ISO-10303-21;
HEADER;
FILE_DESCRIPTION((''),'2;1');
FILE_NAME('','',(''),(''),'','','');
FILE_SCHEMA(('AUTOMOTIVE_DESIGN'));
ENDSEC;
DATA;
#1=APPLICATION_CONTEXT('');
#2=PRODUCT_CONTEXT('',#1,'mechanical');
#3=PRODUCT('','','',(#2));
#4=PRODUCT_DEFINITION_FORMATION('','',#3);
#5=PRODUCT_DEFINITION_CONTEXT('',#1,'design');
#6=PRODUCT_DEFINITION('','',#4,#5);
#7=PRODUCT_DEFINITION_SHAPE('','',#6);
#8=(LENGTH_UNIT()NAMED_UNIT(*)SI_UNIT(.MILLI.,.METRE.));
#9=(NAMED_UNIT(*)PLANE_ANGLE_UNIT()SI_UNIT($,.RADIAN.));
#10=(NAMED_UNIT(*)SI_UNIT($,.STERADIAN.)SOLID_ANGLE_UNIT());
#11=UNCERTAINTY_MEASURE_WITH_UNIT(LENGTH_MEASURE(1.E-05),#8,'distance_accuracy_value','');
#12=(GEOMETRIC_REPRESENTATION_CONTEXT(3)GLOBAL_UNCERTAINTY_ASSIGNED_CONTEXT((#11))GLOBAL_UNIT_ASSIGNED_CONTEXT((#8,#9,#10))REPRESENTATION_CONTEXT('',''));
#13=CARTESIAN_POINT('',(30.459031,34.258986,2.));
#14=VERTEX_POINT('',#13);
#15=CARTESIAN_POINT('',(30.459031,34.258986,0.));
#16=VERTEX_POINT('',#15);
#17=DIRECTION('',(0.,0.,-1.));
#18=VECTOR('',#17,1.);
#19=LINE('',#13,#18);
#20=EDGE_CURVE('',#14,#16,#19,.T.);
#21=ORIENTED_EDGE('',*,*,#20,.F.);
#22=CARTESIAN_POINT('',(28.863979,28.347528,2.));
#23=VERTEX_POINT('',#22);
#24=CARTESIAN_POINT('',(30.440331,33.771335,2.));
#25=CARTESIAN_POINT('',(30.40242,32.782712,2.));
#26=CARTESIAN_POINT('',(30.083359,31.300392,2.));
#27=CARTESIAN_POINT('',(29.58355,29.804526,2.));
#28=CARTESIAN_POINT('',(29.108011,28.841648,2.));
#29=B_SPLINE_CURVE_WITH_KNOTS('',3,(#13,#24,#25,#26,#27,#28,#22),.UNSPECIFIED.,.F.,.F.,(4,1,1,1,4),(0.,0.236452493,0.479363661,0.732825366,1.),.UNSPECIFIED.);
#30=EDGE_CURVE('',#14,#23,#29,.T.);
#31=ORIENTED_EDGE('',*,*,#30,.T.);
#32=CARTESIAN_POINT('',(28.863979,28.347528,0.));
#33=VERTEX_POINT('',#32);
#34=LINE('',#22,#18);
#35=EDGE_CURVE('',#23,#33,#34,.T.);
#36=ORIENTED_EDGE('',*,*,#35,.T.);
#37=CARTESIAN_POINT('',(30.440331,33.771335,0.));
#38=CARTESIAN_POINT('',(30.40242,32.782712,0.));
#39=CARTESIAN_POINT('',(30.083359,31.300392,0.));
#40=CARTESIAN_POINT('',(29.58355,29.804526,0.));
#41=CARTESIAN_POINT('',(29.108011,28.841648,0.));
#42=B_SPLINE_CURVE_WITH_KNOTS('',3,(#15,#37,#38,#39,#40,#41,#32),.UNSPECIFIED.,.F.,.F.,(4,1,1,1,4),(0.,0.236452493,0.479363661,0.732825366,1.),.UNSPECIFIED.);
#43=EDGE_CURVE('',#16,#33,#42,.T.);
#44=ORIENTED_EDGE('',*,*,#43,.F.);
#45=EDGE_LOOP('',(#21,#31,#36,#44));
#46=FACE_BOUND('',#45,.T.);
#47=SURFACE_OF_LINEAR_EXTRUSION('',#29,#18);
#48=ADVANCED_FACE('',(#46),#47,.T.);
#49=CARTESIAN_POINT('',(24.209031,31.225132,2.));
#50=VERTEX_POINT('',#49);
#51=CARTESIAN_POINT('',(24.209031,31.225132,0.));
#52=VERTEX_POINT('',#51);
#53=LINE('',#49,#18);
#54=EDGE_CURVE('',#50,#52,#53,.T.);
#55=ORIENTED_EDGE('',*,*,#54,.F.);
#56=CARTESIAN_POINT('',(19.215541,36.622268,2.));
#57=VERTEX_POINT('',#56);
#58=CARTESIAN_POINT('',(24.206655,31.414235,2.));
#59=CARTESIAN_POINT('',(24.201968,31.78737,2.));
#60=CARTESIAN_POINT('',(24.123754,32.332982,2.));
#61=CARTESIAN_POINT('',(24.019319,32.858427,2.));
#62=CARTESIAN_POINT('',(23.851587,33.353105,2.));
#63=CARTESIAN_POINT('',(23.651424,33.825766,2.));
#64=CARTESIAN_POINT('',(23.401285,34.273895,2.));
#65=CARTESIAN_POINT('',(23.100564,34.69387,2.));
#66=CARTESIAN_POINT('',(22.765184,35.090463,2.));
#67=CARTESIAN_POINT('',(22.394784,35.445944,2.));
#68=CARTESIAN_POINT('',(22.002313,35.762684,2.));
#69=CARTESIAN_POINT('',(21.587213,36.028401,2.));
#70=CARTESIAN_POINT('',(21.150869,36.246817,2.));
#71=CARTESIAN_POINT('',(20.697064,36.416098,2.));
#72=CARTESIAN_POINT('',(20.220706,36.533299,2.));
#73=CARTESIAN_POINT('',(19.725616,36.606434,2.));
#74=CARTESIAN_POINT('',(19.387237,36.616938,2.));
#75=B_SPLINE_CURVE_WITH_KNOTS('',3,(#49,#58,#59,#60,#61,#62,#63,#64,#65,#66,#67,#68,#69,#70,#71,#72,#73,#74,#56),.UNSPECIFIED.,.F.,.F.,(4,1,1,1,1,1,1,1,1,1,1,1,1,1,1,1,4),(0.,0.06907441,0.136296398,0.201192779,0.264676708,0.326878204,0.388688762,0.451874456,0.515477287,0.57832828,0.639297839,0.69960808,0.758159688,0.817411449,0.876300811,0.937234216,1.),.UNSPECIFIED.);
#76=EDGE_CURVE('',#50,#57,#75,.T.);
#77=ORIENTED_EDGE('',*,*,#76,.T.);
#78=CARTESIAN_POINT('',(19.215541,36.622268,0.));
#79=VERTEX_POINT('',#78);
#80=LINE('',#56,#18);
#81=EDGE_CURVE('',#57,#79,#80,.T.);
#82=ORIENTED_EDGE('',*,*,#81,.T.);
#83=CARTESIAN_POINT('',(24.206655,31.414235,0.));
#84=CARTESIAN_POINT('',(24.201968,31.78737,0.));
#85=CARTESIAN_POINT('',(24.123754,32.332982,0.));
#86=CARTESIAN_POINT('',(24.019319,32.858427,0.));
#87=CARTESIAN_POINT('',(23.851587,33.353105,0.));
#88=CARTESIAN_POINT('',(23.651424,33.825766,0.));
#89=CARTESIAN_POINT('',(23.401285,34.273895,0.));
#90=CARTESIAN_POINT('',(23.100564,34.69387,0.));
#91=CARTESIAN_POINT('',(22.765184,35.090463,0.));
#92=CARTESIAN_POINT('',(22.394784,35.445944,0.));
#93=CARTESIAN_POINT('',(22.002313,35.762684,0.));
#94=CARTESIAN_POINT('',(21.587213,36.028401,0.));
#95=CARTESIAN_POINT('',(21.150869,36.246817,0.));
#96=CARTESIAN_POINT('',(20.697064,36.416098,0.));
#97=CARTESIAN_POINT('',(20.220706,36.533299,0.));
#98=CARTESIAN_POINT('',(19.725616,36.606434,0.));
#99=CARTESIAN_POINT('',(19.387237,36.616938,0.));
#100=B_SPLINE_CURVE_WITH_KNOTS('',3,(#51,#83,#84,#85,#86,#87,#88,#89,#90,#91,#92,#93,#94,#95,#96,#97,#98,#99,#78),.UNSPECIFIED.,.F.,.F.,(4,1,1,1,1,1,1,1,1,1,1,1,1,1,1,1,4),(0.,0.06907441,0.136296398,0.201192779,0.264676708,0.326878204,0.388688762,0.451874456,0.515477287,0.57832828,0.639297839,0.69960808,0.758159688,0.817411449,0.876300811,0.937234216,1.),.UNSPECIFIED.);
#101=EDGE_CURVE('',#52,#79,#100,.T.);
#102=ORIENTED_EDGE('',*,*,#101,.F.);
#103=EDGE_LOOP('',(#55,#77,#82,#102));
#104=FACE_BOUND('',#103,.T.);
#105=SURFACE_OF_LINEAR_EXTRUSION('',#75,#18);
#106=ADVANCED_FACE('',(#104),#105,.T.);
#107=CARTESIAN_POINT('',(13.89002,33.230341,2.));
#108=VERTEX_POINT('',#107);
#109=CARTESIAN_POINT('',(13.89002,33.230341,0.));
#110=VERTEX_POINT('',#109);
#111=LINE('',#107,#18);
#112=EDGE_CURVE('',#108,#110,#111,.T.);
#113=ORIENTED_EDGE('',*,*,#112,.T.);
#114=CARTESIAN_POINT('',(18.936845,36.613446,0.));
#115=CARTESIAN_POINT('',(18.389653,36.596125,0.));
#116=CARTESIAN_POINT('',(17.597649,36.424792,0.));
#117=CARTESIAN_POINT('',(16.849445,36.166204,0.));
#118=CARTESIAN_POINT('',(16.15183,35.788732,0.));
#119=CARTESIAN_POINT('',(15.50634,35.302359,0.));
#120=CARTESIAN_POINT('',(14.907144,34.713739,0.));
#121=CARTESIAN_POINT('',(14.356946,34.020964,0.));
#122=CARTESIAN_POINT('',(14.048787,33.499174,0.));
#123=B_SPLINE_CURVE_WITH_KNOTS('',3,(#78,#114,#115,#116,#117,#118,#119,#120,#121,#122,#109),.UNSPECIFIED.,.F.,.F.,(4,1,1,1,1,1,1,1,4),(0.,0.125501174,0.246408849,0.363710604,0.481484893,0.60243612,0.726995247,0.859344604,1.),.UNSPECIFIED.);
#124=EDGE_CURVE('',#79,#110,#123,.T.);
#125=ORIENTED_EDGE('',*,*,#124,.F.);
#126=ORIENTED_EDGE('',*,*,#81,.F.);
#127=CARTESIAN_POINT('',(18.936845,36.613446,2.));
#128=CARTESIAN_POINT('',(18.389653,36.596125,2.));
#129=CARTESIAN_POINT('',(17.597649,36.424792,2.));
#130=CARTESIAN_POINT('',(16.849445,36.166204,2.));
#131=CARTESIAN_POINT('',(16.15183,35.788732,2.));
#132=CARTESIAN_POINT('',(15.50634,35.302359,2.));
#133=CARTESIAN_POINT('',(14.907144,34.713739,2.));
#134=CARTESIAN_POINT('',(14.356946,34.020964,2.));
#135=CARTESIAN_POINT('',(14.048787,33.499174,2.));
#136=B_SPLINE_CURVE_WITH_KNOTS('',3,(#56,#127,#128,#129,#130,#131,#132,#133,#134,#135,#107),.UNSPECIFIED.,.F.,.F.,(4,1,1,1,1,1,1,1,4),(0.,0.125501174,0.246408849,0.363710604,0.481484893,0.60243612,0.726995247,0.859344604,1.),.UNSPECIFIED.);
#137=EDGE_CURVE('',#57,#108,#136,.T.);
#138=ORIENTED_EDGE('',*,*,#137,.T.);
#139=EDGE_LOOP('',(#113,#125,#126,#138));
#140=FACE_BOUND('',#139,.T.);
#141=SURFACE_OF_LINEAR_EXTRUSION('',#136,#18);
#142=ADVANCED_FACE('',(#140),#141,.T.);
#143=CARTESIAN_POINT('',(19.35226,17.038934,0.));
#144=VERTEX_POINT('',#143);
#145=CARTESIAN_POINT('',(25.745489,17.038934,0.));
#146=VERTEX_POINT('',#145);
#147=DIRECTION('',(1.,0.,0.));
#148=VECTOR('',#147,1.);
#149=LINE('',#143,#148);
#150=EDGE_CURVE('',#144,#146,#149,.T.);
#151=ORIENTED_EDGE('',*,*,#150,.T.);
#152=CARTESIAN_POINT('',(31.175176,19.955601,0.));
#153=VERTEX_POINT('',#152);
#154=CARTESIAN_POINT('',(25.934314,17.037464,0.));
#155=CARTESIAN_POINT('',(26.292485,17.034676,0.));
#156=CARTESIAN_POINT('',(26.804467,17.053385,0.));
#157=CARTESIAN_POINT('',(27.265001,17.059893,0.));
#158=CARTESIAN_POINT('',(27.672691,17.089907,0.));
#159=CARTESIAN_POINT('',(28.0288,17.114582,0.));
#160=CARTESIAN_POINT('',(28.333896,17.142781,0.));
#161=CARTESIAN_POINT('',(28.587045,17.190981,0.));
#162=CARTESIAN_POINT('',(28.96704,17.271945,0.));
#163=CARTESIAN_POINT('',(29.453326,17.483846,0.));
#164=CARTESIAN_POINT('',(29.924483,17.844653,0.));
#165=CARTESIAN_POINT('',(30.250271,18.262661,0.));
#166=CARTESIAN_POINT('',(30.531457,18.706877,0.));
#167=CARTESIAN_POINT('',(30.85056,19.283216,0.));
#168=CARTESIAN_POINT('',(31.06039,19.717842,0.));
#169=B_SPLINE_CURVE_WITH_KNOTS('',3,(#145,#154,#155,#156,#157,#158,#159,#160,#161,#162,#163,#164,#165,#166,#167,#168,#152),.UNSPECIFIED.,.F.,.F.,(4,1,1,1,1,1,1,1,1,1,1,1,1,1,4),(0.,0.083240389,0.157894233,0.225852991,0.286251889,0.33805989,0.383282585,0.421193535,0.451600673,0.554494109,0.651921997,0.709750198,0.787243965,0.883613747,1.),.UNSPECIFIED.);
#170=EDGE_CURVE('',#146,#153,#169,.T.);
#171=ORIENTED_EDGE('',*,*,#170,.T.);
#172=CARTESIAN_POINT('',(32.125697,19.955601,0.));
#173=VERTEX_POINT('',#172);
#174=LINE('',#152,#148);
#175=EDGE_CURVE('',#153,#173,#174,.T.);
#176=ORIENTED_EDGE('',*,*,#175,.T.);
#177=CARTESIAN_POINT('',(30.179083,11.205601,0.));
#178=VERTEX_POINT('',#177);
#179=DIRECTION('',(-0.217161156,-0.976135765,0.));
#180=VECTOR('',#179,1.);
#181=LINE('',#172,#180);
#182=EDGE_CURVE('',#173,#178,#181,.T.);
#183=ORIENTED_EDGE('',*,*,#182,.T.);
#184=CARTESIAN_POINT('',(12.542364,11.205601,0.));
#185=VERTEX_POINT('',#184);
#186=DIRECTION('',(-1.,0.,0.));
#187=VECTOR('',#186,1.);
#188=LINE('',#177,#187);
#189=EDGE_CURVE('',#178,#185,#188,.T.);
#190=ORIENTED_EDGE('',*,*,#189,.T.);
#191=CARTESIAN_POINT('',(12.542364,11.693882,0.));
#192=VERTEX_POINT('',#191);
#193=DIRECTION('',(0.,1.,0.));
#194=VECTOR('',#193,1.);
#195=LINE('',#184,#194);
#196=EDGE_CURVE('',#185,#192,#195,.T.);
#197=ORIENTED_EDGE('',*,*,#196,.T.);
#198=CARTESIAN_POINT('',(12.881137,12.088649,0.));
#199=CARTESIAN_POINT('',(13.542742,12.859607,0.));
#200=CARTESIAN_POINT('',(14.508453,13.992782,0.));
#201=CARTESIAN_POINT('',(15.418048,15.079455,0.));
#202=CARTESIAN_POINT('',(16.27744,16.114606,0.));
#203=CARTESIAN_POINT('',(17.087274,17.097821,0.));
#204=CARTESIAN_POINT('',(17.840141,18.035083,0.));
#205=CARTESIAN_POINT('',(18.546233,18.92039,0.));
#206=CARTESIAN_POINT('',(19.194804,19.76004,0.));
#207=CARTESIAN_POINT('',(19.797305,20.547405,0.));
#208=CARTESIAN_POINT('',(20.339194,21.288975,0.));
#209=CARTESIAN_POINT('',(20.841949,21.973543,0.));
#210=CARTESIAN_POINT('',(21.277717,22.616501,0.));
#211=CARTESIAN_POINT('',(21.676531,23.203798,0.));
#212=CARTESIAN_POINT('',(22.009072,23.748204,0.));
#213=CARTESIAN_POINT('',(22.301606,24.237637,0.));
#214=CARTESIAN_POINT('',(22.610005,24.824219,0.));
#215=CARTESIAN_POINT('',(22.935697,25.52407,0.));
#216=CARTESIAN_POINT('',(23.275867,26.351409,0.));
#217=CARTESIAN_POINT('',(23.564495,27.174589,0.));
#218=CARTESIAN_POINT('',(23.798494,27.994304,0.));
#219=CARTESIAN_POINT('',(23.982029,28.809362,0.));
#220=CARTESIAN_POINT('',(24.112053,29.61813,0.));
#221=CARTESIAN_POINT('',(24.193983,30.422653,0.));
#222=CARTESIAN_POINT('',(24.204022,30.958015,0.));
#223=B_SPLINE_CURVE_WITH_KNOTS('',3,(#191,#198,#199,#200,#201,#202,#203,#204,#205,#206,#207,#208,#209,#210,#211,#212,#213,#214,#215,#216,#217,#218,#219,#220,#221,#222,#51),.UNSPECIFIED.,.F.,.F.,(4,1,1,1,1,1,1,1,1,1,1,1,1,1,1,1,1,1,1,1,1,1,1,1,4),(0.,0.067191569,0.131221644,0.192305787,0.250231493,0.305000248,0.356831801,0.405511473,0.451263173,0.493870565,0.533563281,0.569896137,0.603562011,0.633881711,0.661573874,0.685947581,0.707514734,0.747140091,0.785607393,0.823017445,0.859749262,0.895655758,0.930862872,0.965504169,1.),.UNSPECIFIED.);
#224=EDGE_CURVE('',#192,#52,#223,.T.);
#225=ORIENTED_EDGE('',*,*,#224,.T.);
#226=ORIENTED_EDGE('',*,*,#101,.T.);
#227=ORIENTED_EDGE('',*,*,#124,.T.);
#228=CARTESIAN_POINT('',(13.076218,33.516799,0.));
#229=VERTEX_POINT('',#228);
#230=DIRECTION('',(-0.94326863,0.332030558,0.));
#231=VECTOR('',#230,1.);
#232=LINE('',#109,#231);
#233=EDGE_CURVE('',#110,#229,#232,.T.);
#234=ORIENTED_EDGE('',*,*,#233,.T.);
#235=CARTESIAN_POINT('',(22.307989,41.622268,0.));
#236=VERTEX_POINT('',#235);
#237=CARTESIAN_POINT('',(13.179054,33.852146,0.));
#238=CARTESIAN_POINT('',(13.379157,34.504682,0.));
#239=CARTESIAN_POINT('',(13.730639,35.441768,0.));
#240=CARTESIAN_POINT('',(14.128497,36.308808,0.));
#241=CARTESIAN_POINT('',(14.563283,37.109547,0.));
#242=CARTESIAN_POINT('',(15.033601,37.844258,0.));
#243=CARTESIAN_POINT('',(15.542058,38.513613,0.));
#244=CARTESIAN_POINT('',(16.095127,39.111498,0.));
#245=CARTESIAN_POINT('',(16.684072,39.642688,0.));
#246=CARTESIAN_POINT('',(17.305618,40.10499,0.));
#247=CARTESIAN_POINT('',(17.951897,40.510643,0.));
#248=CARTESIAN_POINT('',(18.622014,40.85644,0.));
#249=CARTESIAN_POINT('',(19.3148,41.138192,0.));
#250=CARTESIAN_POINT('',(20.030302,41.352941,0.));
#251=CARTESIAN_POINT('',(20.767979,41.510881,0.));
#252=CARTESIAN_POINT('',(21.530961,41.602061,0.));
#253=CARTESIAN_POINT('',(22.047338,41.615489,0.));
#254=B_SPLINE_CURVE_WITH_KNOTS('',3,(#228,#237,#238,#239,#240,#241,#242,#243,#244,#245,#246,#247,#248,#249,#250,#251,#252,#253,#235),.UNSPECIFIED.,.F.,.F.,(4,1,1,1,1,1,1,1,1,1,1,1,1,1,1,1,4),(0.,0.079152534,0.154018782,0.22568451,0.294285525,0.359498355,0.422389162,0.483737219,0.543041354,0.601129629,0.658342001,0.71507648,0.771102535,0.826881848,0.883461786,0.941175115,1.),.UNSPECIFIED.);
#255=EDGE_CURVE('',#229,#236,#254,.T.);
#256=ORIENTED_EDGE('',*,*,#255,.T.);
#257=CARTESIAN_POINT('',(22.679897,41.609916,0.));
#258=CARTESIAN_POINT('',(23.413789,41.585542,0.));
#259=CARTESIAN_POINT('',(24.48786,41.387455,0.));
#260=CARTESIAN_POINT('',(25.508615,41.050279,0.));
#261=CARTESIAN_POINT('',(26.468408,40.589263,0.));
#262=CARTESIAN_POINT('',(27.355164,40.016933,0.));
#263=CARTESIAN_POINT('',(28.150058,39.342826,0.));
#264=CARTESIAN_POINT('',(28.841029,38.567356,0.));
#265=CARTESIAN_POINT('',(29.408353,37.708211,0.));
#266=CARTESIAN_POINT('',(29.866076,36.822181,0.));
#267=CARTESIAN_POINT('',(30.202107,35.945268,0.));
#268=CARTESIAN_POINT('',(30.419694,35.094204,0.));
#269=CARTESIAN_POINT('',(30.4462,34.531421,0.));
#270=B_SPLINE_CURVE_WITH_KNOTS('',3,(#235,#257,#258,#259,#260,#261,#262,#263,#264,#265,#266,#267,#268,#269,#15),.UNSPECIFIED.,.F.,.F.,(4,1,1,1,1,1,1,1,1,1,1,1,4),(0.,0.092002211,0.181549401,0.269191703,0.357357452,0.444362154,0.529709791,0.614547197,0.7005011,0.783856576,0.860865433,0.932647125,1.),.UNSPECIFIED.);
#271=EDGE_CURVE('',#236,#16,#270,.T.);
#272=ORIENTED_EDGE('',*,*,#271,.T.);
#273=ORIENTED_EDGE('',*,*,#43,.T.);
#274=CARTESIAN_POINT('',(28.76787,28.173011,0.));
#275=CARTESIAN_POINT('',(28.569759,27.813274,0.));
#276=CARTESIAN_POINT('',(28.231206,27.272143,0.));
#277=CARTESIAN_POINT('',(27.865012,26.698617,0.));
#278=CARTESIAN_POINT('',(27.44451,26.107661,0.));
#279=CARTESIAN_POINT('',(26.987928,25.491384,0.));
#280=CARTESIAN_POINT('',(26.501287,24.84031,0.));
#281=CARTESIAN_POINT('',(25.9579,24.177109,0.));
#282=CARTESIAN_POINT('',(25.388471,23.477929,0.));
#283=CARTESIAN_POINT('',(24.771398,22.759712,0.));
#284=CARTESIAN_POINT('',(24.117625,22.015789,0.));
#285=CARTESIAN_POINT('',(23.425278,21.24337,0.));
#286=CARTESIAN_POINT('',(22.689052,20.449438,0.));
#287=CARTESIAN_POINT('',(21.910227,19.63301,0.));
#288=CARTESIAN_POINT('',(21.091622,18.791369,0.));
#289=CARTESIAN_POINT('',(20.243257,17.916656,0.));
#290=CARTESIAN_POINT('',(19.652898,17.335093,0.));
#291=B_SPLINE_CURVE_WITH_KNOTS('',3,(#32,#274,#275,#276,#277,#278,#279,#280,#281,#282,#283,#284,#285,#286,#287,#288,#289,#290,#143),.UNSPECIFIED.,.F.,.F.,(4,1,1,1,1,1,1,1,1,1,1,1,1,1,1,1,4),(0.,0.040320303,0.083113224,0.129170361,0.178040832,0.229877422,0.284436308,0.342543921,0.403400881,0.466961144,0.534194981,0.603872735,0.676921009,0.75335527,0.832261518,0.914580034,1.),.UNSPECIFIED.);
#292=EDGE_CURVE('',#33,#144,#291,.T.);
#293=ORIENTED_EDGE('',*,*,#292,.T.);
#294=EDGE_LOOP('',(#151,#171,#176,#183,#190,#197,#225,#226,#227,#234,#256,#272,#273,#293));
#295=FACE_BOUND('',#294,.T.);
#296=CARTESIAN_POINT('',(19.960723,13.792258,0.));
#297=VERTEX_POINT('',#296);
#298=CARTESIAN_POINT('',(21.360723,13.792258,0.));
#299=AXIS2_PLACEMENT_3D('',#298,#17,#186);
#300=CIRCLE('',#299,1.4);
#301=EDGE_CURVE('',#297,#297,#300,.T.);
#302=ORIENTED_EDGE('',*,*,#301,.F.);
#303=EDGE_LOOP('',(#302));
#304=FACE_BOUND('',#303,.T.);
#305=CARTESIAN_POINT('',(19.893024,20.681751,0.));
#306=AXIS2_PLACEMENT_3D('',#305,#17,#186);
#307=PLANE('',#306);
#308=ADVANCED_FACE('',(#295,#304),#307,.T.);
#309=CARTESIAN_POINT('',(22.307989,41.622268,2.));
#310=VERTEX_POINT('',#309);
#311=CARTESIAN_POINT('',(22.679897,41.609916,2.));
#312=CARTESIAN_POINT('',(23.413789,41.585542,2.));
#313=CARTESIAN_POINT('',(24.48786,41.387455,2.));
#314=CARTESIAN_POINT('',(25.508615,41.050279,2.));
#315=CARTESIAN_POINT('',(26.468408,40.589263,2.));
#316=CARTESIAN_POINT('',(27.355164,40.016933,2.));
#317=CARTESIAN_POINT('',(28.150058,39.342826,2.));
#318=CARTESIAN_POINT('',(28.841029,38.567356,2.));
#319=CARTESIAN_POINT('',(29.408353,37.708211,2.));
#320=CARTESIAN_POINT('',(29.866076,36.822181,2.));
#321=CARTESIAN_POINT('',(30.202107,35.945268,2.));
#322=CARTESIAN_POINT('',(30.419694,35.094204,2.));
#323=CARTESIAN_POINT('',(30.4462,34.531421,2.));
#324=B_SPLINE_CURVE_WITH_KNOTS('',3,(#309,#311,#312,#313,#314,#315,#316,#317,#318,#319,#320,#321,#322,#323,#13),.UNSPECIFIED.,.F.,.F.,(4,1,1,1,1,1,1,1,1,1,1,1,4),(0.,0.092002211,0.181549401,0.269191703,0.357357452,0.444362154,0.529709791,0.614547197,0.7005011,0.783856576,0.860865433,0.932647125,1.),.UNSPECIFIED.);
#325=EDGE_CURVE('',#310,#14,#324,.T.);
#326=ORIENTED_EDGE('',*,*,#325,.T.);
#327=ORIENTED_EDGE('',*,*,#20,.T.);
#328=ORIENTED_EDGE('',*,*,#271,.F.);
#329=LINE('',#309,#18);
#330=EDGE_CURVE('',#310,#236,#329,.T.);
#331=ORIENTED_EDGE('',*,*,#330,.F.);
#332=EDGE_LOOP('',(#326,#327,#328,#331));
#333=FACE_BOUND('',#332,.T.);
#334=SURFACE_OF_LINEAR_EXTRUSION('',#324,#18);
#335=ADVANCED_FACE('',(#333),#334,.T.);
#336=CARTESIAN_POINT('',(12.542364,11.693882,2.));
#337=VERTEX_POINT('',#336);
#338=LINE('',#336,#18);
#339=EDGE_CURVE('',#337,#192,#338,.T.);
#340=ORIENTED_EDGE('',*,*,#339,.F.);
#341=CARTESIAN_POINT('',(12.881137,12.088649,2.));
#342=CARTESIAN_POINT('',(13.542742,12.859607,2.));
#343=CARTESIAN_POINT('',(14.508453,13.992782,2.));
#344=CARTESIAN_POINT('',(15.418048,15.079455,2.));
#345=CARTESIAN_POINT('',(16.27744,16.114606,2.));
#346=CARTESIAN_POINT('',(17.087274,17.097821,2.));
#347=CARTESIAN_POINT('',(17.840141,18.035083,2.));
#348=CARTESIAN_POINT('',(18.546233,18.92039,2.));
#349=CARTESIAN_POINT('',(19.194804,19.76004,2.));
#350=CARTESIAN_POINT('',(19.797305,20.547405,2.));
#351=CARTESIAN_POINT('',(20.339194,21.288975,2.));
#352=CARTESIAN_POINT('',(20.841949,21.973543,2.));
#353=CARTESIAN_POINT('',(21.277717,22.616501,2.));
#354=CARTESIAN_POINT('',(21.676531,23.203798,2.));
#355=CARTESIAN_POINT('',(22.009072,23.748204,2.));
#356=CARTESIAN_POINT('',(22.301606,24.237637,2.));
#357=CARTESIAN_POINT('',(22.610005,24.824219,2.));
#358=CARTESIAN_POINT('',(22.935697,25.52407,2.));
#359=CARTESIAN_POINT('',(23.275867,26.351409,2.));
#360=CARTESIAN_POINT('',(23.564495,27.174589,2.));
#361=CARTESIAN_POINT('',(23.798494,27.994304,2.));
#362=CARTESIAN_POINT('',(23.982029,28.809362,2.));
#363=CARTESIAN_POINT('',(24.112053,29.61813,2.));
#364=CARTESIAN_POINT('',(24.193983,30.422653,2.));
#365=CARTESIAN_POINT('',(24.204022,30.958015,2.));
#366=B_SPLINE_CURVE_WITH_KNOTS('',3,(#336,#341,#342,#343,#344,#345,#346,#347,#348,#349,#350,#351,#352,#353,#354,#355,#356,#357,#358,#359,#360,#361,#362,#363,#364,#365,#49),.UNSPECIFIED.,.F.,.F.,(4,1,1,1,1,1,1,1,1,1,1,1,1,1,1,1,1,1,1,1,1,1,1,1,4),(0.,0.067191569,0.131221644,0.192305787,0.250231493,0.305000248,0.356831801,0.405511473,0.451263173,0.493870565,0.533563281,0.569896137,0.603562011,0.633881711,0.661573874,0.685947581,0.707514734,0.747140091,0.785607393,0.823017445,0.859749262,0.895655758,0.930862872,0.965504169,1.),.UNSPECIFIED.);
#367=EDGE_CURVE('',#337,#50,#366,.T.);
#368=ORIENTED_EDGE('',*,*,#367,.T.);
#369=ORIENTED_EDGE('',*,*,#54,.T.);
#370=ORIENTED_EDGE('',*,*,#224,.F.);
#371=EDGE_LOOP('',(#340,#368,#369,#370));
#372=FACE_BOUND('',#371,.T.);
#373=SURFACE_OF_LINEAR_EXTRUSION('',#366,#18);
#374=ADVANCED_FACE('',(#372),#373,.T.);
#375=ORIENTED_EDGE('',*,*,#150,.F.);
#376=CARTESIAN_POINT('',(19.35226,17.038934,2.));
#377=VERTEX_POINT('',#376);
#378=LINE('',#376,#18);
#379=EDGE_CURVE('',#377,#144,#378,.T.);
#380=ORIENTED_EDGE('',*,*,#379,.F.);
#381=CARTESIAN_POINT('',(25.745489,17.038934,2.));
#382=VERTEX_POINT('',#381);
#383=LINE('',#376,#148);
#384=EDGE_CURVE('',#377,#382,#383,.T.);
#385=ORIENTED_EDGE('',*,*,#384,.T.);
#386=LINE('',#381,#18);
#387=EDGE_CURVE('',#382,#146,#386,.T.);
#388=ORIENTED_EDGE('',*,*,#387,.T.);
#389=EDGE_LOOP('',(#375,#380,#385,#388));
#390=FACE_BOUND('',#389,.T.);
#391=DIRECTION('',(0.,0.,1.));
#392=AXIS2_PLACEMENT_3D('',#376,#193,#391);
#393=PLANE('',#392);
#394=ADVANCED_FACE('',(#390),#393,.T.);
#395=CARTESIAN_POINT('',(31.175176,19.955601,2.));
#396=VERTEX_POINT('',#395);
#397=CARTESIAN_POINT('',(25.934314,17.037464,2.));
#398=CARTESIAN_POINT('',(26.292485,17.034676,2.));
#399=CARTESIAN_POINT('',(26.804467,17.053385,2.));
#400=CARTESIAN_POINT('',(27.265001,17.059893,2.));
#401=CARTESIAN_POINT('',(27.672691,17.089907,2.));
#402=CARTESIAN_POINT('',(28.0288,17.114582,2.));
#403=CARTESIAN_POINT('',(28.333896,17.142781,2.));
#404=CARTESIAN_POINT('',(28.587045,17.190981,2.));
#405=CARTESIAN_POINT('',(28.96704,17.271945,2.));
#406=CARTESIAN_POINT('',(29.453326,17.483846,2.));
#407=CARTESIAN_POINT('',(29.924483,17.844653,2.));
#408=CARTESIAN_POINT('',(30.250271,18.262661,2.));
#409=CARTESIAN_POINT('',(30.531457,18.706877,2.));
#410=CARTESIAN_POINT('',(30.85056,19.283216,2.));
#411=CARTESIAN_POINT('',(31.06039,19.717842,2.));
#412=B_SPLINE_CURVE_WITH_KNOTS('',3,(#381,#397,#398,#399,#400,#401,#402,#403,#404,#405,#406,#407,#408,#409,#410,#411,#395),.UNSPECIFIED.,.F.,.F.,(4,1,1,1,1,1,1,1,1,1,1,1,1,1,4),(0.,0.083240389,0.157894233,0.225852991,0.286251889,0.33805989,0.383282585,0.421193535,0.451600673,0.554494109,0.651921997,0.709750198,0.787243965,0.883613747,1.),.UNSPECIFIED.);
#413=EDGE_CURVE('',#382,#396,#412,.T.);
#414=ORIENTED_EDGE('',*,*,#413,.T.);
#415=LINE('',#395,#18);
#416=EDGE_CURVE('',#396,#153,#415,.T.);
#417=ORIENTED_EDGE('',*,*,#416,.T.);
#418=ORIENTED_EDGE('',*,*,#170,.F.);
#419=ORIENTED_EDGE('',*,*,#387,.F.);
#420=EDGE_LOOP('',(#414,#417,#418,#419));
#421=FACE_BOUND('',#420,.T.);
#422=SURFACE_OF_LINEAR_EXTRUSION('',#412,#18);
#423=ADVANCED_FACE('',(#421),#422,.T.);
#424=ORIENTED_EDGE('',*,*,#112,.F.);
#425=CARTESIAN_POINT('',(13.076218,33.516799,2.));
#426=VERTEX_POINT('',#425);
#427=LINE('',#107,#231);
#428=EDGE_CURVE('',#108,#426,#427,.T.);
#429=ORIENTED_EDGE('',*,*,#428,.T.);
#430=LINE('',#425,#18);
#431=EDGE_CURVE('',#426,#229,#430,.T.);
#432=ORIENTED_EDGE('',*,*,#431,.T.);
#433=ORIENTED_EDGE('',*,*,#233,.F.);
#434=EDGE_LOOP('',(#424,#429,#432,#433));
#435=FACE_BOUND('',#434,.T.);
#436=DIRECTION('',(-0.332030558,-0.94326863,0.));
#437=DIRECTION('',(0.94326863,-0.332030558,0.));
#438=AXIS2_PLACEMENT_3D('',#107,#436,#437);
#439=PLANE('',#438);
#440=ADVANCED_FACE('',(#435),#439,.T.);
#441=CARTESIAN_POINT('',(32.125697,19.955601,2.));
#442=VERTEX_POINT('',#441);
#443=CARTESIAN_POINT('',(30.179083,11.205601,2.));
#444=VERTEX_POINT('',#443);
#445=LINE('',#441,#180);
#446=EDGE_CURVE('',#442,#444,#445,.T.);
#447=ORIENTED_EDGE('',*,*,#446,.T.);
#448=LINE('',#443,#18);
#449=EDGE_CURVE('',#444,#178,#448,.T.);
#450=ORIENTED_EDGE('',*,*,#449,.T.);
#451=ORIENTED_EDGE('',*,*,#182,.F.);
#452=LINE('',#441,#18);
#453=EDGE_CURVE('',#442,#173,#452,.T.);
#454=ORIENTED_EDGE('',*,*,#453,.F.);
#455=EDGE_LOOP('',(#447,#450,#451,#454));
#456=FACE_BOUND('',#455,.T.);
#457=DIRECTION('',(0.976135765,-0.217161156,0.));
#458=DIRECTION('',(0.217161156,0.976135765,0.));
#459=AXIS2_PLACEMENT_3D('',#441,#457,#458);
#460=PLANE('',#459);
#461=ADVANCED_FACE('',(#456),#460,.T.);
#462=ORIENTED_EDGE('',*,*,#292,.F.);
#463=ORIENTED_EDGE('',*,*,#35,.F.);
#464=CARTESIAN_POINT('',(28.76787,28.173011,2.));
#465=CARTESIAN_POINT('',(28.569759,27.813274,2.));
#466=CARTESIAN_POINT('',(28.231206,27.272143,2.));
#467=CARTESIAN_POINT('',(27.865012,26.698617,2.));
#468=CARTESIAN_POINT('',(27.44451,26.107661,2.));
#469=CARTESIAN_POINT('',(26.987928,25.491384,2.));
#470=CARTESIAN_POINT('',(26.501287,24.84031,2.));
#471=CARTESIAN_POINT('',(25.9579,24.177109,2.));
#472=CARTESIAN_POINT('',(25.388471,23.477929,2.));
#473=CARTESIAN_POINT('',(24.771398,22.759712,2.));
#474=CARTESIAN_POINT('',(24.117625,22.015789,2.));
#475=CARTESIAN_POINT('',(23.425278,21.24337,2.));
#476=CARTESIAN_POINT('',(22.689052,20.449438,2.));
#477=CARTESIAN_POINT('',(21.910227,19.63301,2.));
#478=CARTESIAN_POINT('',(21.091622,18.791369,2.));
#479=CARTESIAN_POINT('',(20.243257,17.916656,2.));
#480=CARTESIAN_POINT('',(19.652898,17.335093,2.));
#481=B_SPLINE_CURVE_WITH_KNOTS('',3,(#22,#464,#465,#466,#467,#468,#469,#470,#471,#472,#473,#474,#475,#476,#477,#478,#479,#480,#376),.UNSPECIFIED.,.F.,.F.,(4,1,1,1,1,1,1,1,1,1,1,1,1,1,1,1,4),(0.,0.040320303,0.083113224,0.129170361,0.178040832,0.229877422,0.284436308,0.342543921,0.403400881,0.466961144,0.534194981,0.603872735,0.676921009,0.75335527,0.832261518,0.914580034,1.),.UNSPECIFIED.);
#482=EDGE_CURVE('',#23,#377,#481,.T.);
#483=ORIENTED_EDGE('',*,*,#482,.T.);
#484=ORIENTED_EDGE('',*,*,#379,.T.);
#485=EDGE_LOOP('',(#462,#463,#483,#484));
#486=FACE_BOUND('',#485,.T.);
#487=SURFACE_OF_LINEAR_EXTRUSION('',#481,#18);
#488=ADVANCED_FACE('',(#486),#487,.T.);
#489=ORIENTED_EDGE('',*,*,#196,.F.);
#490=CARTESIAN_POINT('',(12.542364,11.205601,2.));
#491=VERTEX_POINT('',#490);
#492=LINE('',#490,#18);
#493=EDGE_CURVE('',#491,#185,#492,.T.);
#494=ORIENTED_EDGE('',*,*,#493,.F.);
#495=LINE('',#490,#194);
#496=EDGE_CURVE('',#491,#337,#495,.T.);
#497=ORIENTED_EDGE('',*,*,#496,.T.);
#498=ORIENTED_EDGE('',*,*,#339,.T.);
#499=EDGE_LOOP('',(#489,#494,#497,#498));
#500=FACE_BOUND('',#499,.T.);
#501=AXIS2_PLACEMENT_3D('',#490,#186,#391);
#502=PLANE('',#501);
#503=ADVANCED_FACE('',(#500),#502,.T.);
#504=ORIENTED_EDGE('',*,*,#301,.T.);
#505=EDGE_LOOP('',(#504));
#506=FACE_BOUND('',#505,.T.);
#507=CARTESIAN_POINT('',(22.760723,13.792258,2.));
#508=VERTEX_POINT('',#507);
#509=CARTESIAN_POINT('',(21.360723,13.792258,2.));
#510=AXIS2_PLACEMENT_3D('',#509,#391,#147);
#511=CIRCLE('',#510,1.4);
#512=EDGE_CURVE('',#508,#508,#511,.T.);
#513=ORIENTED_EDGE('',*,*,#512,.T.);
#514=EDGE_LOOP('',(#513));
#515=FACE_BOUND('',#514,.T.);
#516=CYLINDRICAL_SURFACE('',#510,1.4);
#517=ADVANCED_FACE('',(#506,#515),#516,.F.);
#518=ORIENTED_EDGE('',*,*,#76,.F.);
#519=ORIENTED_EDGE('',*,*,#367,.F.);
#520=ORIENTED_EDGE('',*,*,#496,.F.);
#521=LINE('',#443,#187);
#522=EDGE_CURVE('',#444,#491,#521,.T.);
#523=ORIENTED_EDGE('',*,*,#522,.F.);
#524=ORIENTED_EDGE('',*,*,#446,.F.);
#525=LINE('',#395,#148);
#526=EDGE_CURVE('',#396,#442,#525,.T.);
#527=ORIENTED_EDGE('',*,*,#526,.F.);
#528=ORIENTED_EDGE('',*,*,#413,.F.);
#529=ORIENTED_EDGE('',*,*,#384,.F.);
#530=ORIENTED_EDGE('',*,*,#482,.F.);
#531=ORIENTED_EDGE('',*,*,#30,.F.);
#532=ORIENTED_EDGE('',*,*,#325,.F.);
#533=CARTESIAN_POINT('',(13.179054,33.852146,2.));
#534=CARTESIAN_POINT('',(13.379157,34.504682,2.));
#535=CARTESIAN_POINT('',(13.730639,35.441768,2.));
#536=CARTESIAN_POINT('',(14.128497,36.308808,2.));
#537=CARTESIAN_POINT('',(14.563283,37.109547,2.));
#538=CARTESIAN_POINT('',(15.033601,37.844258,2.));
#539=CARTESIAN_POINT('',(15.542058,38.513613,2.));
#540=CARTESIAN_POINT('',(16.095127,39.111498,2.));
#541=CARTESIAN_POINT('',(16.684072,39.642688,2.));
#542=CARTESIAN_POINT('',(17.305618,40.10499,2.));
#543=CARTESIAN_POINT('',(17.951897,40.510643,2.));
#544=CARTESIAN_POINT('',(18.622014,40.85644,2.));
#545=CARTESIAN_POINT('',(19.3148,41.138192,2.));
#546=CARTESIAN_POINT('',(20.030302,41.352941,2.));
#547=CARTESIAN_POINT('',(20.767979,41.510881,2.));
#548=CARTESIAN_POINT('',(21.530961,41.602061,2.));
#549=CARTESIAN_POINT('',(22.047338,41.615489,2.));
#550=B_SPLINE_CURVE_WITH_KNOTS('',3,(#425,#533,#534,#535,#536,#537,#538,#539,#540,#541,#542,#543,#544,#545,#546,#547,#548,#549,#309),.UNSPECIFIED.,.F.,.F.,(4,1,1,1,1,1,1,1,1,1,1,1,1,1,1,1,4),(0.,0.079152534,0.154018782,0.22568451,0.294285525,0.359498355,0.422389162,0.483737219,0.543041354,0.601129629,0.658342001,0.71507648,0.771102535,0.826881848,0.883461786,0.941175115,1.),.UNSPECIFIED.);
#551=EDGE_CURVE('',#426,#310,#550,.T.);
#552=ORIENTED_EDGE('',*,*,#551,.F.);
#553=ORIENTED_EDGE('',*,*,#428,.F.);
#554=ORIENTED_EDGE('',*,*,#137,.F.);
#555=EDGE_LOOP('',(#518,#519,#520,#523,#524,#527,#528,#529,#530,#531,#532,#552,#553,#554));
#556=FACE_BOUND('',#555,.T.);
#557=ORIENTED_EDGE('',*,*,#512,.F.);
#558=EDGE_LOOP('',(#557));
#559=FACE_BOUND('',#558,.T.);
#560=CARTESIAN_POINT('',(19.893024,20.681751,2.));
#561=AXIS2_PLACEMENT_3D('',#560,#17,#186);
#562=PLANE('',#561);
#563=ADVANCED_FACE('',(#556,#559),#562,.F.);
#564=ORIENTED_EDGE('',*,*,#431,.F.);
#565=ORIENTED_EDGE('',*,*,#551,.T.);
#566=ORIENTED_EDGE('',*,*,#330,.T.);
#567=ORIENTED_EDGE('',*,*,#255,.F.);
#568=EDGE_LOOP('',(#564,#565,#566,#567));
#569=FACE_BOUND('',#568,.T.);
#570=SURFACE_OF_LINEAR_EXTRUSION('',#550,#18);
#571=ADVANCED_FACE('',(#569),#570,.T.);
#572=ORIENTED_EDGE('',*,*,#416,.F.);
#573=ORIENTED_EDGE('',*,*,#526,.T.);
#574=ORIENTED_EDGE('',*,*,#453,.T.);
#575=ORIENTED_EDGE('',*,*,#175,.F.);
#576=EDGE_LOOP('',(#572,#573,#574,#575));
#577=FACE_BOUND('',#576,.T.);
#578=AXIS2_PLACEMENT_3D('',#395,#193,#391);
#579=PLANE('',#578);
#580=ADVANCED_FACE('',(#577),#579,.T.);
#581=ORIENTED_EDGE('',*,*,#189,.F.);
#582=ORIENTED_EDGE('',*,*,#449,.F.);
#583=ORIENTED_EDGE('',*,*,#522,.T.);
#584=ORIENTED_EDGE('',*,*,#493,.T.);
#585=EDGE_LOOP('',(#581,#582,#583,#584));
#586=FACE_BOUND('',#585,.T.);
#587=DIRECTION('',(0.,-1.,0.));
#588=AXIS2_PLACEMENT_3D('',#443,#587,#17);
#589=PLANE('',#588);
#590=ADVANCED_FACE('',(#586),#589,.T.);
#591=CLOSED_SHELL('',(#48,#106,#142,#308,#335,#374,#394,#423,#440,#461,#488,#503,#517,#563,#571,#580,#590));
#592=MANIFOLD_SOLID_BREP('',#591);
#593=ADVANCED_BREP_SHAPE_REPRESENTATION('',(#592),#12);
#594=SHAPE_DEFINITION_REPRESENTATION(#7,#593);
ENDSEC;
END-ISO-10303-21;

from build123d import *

# Parameters (mm, degrees)
BOSS_EXTRU_1_DEPTH     = 2
D_GAGEMENT_M1_61_D     = 2.8
D_GAGEMENT_M1_61_DEPTH = 50


with BuildPart() as part:
    # Esquisse1 → Boss.-Extru.1 (new body)
    with BuildSketch(Plane.XY):
        with BuildLine():
            Line((30.179082722, 11.205600965), (12.542363972, 11.205600965))
            Line((12.542363972, 11.205600965), (12.542363972, 11.693882215))
            add(Edge.make_bspline(
                [(12.542363972, 11.693882215), (12.881136709, 12.088648819), (13.542742266, 12.85960749), (14.508452904, 13.992781588), (15.418047611, 15.079454653), (16.277439508, 16.114606131), (17.087274316, 17.097820692), (17.840140522, 18.035083149), (18.546233089, 18.920390025), (19.194803638, 19.760040209), (19.797304838, 20.547404882), (20.339194184, 21.2889747), (20.841948632, 21.973542972), (21.277716543, 22.6165006), (21.676531137, 23.203798306), (22.009071616, 23.748203678), (22.301606172, 24.237636856), (22.610004896, 24.824218938), (22.935697027, 25.52406999), (23.275867169, 26.35140879), (23.564495095, 27.174588864), (23.798493759, 27.994304476), (23.982029168, 28.80936221), (24.112052658, 29.618129528), (24.193983215, 30.422653355), (24.204021871, 30.958014733), (24.209030639, 31.225132215)],
                knots=[0, 0, 0, 0, 0.0015606, 0.003047771, 0.004466519, 0.005811909, 0.007083975, 0.008287821, 0.009418461, 0.010481096, 0.011470701, 0.012392609, 0.013236481, 0.014018408, 0.014722618, 0.015365799, 0.015931906, 0.016432828, 0.017353171, 0.018246618, 0.019115508, 0.019968646, 0.020802615, 0.02162034, 0.022424923, 0.023226128, 0.023226128, 0.023226128, 0.023226128], degree=3))
            add(Edge.make_bspline(
                [(24.209030639, 31.225132215), (24.206655253, 31.414235122), (24.201968183, 31.787369618), (24.12375386, 32.332982208), (24.019318572, 32.858426919), (23.85158693, 33.35310546), (23.651423788, 33.825766135), (23.401285376, 34.273895228), (23.100563635, 34.693869832), (22.765183813, 35.090463219), (22.394783522, 35.445944183), (22.002313346, 35.762683678), (21.587212745, 36.028401492), (21.150868718, 36.246817438), (20.697063898, 36.416097723), (20.220705812, 36.533298704), (19.725615517, 36.606433615), (19.387236699, 36.616937759), (19.215541055, 36.622267631)],
                knots=[0, 0, 0, 0, 0.000566743, 0.001118287, 0.00165075, 0.002171624, 0.002681976, 0.00318912, 0.003707547, 0.004229397, 0.004745078, 0.005245322, 0.005740156, 0.006220562, 0.006706711, 0.007189888, 0.007689835, 0.008204817, 0.008204817, 0.008204817, 0.008204817], degree=3))
            add(Edge.make_bspline(
                [(19.215541055, 36.622267631), (18.936844993, 36.61344576), (18.389653493, 36.59612491), (17.597649359, 36.424792239), (16.849444788, 36.166203908), (16.151829751, 35.788732099), (15.506339966, 35.302359066), (14.907144288, 34.713738884), (14.356945555, 34.020964188), (14.04878719, 33.499173505), (13.890020222, 33.230340548)],
                knots=[0, 0, 0, 0, 0.000834959, 0.001639358, 0.002419767, 0.003203319, 0.004008008, 0.0048367, 0.00571722, 0.006653, 0.006653, 0.006653, 0.006653], degree=3))
            Line((13.890020222, 33.230340548), (13.076218139, 33.516798881))
            add(Edge.make_bspline(
                [(13.076218139, 33.516798881), (13.179054061, 33.852146444), (13.379157113, 34.504681753), (13.730639084, 35.441767759), (14.128497083, 36.308808373), (14.563282581, 37.10954717), (15.033600596, 37.844258143), (15.5420578, 38.513613494), (16.095126829, 39.111498004), (16.684071503, 39.642688482), (17.305618092, 40.104990045), (17.951897427, 40.51064322), (18.622014238, 40.85644043), (19.314800196, 41.13819172), (20.03030182, 41.35294052), (20.767979453, 41.510881359), (21.530961248, 41.602061284), (22.047337974, 41.615489489), (22.307988972, 41.622267631)],
                knots=[0, 0, 0, 0, 0.001052132, 0.00204729, 0.002999904, 0.003911781, 0.00477862, 0.005614594, 0.006430061, 0.00721836, 0.007990496, 0.00875099, 0.009505131, 0.010249855, 0.0109913, 0.011743387, 0.01251054, 0.013292467, 0.013292467, 0.013292467, 0.013292467], degree=3))
            add(Edge.make_bspline(
                [(22.307988972, 41.622267631), (22.679896981, 41.609915738), (23.413788868, 41.585541555), (24.487860289, 41.38745513), (25.508615399, 41.050279213), (26.468407849, 40.589262885), (27.355163704, 40.016933082), (28.150058294, 39.34282648), (28.841028925, 38.567355524), (29.408352915, 37.708211361), (29.86607553, 36.82218061), (30.202107309, 35.945268221), (30.419693518, 35.09420366), (30.446199504, 34.531420793), (30.459030639, 34.258986381)],
                knots=[0, 0, 0, 0, 0.001115183, 0.002200609, 0.003262944, 0.004331625, 0.005386232, 0.006420753, 0.00744909, 0.00849096, 0.009501334, 0.010434779, 0.011304864, 0.012121266, 0.012121266, 0.012121266, 0.012121266], degree=3))
            add(Edge.make_bspline(
                [(30.459030639, 34.258986381), (30.440330645, 33.771334999), (30.402419871, 32.782712091), (30.083359411, 31.300391879), (29.583549933, 29.80452581), (29.108010723, 28.841647649), (28.863978555, 28.347528048)],
                knots=[0, 0, 0, 0, 0.001461599, 0.002963122, 0.004529862, 0.006181366, 0.006181366, 0.006181366, 0.006181366], degree=3))
            add(Edge.make_bspline(
                [(28.863978555, 28.347528048), (28.76786982, 28.173010661), (28.56975854, 27.813273711), (28.23120618, 27.272143019), (27.865011588, 26.69861719), (27.444510098, 26.107661003), (26.987928456, 25.491384116), (26.501286537, 24.840310245), (25.957900083, 24.177108889), (25.388470702, 23.477928873), (24.771397811, 22.759712277), (24.117625487, 22.015788636), (23.425278319, 21.243370208), (22.689052157, 20.449438203), (21.91022666, 19.633010142), (21.091622049, 18.791368662), (20.243257466, 17.916656162), (19.65289757, 17.335092583), (19.352259805, 17.038934298)],
                knots=[0, 0, 0, 0, 0.000597577, 0.0012318, 0.001914401, 0.002638697, 0.003406954, 0.004215557, 0.005076755, 0.005978701, 0.006920711, 0.007917166, 0.008949842, 0.010032472, 0.011165284, 0.012334734, 0.013554755, 0.014820742, 0.014820742, 0.014820742, 0.014820742], degree=3))
            Line((19.352259805, 17.038934298), (25.745488972, 17.038934298))
            add(Edge.make_bspline(
                [(25.745488972, 17.038934298), (25.934313645, 17.037464211), (26.292485048, 17.034675682), (26.804467082, 17.053384982), (27.26500093, 17.059893125), (27.672690984, 17.089906602), (28.028799564, 17.114582451), (28.333895654, 17.142780825), (28.587044708, 17.1909813), (28.967040392, 17.271944811), (29.453325738, 17.483845597), (29.924483141, 17.844652989), (30.250271084, 18.262660952), (30.531456746, 18.706877056), (30.850559761, 19.283215692), (31.060390484, 19.717842386), (31.175176472, 19.955600965)],
                knots=[0, 0, 0, 0, 0.000566406, 0.001074386, 0.001536809, 0.001947791, 0.002300316, 0.002608033, 0.002865996, 0.003072901, 0.003773035, 0.00443598, 0.00482947, 0.005356773, 0.006012518, 0.006804464, 0.006804464, 0.006804464, 0.006804464], degree=3))
            Line((31.175176472, 19.955600965), (32.125697305, 19.955600965))
            Line((32.125697305, 19.955600965), (30.179082722, 11.205600965))
        make_face()
    extrude(amount=BOSS_EXTRU_1_DEPTH)

    # Dégagement M1.61
    with Locations(Plane.XY.offset(2)):
        with Locations((21.360723347, 13.792257827)):
            Hole(D_GAGEMENT_M1_61_D / 2, depth=D_GAGEMENT_M1_61_DEPTH)


solid = part.part
